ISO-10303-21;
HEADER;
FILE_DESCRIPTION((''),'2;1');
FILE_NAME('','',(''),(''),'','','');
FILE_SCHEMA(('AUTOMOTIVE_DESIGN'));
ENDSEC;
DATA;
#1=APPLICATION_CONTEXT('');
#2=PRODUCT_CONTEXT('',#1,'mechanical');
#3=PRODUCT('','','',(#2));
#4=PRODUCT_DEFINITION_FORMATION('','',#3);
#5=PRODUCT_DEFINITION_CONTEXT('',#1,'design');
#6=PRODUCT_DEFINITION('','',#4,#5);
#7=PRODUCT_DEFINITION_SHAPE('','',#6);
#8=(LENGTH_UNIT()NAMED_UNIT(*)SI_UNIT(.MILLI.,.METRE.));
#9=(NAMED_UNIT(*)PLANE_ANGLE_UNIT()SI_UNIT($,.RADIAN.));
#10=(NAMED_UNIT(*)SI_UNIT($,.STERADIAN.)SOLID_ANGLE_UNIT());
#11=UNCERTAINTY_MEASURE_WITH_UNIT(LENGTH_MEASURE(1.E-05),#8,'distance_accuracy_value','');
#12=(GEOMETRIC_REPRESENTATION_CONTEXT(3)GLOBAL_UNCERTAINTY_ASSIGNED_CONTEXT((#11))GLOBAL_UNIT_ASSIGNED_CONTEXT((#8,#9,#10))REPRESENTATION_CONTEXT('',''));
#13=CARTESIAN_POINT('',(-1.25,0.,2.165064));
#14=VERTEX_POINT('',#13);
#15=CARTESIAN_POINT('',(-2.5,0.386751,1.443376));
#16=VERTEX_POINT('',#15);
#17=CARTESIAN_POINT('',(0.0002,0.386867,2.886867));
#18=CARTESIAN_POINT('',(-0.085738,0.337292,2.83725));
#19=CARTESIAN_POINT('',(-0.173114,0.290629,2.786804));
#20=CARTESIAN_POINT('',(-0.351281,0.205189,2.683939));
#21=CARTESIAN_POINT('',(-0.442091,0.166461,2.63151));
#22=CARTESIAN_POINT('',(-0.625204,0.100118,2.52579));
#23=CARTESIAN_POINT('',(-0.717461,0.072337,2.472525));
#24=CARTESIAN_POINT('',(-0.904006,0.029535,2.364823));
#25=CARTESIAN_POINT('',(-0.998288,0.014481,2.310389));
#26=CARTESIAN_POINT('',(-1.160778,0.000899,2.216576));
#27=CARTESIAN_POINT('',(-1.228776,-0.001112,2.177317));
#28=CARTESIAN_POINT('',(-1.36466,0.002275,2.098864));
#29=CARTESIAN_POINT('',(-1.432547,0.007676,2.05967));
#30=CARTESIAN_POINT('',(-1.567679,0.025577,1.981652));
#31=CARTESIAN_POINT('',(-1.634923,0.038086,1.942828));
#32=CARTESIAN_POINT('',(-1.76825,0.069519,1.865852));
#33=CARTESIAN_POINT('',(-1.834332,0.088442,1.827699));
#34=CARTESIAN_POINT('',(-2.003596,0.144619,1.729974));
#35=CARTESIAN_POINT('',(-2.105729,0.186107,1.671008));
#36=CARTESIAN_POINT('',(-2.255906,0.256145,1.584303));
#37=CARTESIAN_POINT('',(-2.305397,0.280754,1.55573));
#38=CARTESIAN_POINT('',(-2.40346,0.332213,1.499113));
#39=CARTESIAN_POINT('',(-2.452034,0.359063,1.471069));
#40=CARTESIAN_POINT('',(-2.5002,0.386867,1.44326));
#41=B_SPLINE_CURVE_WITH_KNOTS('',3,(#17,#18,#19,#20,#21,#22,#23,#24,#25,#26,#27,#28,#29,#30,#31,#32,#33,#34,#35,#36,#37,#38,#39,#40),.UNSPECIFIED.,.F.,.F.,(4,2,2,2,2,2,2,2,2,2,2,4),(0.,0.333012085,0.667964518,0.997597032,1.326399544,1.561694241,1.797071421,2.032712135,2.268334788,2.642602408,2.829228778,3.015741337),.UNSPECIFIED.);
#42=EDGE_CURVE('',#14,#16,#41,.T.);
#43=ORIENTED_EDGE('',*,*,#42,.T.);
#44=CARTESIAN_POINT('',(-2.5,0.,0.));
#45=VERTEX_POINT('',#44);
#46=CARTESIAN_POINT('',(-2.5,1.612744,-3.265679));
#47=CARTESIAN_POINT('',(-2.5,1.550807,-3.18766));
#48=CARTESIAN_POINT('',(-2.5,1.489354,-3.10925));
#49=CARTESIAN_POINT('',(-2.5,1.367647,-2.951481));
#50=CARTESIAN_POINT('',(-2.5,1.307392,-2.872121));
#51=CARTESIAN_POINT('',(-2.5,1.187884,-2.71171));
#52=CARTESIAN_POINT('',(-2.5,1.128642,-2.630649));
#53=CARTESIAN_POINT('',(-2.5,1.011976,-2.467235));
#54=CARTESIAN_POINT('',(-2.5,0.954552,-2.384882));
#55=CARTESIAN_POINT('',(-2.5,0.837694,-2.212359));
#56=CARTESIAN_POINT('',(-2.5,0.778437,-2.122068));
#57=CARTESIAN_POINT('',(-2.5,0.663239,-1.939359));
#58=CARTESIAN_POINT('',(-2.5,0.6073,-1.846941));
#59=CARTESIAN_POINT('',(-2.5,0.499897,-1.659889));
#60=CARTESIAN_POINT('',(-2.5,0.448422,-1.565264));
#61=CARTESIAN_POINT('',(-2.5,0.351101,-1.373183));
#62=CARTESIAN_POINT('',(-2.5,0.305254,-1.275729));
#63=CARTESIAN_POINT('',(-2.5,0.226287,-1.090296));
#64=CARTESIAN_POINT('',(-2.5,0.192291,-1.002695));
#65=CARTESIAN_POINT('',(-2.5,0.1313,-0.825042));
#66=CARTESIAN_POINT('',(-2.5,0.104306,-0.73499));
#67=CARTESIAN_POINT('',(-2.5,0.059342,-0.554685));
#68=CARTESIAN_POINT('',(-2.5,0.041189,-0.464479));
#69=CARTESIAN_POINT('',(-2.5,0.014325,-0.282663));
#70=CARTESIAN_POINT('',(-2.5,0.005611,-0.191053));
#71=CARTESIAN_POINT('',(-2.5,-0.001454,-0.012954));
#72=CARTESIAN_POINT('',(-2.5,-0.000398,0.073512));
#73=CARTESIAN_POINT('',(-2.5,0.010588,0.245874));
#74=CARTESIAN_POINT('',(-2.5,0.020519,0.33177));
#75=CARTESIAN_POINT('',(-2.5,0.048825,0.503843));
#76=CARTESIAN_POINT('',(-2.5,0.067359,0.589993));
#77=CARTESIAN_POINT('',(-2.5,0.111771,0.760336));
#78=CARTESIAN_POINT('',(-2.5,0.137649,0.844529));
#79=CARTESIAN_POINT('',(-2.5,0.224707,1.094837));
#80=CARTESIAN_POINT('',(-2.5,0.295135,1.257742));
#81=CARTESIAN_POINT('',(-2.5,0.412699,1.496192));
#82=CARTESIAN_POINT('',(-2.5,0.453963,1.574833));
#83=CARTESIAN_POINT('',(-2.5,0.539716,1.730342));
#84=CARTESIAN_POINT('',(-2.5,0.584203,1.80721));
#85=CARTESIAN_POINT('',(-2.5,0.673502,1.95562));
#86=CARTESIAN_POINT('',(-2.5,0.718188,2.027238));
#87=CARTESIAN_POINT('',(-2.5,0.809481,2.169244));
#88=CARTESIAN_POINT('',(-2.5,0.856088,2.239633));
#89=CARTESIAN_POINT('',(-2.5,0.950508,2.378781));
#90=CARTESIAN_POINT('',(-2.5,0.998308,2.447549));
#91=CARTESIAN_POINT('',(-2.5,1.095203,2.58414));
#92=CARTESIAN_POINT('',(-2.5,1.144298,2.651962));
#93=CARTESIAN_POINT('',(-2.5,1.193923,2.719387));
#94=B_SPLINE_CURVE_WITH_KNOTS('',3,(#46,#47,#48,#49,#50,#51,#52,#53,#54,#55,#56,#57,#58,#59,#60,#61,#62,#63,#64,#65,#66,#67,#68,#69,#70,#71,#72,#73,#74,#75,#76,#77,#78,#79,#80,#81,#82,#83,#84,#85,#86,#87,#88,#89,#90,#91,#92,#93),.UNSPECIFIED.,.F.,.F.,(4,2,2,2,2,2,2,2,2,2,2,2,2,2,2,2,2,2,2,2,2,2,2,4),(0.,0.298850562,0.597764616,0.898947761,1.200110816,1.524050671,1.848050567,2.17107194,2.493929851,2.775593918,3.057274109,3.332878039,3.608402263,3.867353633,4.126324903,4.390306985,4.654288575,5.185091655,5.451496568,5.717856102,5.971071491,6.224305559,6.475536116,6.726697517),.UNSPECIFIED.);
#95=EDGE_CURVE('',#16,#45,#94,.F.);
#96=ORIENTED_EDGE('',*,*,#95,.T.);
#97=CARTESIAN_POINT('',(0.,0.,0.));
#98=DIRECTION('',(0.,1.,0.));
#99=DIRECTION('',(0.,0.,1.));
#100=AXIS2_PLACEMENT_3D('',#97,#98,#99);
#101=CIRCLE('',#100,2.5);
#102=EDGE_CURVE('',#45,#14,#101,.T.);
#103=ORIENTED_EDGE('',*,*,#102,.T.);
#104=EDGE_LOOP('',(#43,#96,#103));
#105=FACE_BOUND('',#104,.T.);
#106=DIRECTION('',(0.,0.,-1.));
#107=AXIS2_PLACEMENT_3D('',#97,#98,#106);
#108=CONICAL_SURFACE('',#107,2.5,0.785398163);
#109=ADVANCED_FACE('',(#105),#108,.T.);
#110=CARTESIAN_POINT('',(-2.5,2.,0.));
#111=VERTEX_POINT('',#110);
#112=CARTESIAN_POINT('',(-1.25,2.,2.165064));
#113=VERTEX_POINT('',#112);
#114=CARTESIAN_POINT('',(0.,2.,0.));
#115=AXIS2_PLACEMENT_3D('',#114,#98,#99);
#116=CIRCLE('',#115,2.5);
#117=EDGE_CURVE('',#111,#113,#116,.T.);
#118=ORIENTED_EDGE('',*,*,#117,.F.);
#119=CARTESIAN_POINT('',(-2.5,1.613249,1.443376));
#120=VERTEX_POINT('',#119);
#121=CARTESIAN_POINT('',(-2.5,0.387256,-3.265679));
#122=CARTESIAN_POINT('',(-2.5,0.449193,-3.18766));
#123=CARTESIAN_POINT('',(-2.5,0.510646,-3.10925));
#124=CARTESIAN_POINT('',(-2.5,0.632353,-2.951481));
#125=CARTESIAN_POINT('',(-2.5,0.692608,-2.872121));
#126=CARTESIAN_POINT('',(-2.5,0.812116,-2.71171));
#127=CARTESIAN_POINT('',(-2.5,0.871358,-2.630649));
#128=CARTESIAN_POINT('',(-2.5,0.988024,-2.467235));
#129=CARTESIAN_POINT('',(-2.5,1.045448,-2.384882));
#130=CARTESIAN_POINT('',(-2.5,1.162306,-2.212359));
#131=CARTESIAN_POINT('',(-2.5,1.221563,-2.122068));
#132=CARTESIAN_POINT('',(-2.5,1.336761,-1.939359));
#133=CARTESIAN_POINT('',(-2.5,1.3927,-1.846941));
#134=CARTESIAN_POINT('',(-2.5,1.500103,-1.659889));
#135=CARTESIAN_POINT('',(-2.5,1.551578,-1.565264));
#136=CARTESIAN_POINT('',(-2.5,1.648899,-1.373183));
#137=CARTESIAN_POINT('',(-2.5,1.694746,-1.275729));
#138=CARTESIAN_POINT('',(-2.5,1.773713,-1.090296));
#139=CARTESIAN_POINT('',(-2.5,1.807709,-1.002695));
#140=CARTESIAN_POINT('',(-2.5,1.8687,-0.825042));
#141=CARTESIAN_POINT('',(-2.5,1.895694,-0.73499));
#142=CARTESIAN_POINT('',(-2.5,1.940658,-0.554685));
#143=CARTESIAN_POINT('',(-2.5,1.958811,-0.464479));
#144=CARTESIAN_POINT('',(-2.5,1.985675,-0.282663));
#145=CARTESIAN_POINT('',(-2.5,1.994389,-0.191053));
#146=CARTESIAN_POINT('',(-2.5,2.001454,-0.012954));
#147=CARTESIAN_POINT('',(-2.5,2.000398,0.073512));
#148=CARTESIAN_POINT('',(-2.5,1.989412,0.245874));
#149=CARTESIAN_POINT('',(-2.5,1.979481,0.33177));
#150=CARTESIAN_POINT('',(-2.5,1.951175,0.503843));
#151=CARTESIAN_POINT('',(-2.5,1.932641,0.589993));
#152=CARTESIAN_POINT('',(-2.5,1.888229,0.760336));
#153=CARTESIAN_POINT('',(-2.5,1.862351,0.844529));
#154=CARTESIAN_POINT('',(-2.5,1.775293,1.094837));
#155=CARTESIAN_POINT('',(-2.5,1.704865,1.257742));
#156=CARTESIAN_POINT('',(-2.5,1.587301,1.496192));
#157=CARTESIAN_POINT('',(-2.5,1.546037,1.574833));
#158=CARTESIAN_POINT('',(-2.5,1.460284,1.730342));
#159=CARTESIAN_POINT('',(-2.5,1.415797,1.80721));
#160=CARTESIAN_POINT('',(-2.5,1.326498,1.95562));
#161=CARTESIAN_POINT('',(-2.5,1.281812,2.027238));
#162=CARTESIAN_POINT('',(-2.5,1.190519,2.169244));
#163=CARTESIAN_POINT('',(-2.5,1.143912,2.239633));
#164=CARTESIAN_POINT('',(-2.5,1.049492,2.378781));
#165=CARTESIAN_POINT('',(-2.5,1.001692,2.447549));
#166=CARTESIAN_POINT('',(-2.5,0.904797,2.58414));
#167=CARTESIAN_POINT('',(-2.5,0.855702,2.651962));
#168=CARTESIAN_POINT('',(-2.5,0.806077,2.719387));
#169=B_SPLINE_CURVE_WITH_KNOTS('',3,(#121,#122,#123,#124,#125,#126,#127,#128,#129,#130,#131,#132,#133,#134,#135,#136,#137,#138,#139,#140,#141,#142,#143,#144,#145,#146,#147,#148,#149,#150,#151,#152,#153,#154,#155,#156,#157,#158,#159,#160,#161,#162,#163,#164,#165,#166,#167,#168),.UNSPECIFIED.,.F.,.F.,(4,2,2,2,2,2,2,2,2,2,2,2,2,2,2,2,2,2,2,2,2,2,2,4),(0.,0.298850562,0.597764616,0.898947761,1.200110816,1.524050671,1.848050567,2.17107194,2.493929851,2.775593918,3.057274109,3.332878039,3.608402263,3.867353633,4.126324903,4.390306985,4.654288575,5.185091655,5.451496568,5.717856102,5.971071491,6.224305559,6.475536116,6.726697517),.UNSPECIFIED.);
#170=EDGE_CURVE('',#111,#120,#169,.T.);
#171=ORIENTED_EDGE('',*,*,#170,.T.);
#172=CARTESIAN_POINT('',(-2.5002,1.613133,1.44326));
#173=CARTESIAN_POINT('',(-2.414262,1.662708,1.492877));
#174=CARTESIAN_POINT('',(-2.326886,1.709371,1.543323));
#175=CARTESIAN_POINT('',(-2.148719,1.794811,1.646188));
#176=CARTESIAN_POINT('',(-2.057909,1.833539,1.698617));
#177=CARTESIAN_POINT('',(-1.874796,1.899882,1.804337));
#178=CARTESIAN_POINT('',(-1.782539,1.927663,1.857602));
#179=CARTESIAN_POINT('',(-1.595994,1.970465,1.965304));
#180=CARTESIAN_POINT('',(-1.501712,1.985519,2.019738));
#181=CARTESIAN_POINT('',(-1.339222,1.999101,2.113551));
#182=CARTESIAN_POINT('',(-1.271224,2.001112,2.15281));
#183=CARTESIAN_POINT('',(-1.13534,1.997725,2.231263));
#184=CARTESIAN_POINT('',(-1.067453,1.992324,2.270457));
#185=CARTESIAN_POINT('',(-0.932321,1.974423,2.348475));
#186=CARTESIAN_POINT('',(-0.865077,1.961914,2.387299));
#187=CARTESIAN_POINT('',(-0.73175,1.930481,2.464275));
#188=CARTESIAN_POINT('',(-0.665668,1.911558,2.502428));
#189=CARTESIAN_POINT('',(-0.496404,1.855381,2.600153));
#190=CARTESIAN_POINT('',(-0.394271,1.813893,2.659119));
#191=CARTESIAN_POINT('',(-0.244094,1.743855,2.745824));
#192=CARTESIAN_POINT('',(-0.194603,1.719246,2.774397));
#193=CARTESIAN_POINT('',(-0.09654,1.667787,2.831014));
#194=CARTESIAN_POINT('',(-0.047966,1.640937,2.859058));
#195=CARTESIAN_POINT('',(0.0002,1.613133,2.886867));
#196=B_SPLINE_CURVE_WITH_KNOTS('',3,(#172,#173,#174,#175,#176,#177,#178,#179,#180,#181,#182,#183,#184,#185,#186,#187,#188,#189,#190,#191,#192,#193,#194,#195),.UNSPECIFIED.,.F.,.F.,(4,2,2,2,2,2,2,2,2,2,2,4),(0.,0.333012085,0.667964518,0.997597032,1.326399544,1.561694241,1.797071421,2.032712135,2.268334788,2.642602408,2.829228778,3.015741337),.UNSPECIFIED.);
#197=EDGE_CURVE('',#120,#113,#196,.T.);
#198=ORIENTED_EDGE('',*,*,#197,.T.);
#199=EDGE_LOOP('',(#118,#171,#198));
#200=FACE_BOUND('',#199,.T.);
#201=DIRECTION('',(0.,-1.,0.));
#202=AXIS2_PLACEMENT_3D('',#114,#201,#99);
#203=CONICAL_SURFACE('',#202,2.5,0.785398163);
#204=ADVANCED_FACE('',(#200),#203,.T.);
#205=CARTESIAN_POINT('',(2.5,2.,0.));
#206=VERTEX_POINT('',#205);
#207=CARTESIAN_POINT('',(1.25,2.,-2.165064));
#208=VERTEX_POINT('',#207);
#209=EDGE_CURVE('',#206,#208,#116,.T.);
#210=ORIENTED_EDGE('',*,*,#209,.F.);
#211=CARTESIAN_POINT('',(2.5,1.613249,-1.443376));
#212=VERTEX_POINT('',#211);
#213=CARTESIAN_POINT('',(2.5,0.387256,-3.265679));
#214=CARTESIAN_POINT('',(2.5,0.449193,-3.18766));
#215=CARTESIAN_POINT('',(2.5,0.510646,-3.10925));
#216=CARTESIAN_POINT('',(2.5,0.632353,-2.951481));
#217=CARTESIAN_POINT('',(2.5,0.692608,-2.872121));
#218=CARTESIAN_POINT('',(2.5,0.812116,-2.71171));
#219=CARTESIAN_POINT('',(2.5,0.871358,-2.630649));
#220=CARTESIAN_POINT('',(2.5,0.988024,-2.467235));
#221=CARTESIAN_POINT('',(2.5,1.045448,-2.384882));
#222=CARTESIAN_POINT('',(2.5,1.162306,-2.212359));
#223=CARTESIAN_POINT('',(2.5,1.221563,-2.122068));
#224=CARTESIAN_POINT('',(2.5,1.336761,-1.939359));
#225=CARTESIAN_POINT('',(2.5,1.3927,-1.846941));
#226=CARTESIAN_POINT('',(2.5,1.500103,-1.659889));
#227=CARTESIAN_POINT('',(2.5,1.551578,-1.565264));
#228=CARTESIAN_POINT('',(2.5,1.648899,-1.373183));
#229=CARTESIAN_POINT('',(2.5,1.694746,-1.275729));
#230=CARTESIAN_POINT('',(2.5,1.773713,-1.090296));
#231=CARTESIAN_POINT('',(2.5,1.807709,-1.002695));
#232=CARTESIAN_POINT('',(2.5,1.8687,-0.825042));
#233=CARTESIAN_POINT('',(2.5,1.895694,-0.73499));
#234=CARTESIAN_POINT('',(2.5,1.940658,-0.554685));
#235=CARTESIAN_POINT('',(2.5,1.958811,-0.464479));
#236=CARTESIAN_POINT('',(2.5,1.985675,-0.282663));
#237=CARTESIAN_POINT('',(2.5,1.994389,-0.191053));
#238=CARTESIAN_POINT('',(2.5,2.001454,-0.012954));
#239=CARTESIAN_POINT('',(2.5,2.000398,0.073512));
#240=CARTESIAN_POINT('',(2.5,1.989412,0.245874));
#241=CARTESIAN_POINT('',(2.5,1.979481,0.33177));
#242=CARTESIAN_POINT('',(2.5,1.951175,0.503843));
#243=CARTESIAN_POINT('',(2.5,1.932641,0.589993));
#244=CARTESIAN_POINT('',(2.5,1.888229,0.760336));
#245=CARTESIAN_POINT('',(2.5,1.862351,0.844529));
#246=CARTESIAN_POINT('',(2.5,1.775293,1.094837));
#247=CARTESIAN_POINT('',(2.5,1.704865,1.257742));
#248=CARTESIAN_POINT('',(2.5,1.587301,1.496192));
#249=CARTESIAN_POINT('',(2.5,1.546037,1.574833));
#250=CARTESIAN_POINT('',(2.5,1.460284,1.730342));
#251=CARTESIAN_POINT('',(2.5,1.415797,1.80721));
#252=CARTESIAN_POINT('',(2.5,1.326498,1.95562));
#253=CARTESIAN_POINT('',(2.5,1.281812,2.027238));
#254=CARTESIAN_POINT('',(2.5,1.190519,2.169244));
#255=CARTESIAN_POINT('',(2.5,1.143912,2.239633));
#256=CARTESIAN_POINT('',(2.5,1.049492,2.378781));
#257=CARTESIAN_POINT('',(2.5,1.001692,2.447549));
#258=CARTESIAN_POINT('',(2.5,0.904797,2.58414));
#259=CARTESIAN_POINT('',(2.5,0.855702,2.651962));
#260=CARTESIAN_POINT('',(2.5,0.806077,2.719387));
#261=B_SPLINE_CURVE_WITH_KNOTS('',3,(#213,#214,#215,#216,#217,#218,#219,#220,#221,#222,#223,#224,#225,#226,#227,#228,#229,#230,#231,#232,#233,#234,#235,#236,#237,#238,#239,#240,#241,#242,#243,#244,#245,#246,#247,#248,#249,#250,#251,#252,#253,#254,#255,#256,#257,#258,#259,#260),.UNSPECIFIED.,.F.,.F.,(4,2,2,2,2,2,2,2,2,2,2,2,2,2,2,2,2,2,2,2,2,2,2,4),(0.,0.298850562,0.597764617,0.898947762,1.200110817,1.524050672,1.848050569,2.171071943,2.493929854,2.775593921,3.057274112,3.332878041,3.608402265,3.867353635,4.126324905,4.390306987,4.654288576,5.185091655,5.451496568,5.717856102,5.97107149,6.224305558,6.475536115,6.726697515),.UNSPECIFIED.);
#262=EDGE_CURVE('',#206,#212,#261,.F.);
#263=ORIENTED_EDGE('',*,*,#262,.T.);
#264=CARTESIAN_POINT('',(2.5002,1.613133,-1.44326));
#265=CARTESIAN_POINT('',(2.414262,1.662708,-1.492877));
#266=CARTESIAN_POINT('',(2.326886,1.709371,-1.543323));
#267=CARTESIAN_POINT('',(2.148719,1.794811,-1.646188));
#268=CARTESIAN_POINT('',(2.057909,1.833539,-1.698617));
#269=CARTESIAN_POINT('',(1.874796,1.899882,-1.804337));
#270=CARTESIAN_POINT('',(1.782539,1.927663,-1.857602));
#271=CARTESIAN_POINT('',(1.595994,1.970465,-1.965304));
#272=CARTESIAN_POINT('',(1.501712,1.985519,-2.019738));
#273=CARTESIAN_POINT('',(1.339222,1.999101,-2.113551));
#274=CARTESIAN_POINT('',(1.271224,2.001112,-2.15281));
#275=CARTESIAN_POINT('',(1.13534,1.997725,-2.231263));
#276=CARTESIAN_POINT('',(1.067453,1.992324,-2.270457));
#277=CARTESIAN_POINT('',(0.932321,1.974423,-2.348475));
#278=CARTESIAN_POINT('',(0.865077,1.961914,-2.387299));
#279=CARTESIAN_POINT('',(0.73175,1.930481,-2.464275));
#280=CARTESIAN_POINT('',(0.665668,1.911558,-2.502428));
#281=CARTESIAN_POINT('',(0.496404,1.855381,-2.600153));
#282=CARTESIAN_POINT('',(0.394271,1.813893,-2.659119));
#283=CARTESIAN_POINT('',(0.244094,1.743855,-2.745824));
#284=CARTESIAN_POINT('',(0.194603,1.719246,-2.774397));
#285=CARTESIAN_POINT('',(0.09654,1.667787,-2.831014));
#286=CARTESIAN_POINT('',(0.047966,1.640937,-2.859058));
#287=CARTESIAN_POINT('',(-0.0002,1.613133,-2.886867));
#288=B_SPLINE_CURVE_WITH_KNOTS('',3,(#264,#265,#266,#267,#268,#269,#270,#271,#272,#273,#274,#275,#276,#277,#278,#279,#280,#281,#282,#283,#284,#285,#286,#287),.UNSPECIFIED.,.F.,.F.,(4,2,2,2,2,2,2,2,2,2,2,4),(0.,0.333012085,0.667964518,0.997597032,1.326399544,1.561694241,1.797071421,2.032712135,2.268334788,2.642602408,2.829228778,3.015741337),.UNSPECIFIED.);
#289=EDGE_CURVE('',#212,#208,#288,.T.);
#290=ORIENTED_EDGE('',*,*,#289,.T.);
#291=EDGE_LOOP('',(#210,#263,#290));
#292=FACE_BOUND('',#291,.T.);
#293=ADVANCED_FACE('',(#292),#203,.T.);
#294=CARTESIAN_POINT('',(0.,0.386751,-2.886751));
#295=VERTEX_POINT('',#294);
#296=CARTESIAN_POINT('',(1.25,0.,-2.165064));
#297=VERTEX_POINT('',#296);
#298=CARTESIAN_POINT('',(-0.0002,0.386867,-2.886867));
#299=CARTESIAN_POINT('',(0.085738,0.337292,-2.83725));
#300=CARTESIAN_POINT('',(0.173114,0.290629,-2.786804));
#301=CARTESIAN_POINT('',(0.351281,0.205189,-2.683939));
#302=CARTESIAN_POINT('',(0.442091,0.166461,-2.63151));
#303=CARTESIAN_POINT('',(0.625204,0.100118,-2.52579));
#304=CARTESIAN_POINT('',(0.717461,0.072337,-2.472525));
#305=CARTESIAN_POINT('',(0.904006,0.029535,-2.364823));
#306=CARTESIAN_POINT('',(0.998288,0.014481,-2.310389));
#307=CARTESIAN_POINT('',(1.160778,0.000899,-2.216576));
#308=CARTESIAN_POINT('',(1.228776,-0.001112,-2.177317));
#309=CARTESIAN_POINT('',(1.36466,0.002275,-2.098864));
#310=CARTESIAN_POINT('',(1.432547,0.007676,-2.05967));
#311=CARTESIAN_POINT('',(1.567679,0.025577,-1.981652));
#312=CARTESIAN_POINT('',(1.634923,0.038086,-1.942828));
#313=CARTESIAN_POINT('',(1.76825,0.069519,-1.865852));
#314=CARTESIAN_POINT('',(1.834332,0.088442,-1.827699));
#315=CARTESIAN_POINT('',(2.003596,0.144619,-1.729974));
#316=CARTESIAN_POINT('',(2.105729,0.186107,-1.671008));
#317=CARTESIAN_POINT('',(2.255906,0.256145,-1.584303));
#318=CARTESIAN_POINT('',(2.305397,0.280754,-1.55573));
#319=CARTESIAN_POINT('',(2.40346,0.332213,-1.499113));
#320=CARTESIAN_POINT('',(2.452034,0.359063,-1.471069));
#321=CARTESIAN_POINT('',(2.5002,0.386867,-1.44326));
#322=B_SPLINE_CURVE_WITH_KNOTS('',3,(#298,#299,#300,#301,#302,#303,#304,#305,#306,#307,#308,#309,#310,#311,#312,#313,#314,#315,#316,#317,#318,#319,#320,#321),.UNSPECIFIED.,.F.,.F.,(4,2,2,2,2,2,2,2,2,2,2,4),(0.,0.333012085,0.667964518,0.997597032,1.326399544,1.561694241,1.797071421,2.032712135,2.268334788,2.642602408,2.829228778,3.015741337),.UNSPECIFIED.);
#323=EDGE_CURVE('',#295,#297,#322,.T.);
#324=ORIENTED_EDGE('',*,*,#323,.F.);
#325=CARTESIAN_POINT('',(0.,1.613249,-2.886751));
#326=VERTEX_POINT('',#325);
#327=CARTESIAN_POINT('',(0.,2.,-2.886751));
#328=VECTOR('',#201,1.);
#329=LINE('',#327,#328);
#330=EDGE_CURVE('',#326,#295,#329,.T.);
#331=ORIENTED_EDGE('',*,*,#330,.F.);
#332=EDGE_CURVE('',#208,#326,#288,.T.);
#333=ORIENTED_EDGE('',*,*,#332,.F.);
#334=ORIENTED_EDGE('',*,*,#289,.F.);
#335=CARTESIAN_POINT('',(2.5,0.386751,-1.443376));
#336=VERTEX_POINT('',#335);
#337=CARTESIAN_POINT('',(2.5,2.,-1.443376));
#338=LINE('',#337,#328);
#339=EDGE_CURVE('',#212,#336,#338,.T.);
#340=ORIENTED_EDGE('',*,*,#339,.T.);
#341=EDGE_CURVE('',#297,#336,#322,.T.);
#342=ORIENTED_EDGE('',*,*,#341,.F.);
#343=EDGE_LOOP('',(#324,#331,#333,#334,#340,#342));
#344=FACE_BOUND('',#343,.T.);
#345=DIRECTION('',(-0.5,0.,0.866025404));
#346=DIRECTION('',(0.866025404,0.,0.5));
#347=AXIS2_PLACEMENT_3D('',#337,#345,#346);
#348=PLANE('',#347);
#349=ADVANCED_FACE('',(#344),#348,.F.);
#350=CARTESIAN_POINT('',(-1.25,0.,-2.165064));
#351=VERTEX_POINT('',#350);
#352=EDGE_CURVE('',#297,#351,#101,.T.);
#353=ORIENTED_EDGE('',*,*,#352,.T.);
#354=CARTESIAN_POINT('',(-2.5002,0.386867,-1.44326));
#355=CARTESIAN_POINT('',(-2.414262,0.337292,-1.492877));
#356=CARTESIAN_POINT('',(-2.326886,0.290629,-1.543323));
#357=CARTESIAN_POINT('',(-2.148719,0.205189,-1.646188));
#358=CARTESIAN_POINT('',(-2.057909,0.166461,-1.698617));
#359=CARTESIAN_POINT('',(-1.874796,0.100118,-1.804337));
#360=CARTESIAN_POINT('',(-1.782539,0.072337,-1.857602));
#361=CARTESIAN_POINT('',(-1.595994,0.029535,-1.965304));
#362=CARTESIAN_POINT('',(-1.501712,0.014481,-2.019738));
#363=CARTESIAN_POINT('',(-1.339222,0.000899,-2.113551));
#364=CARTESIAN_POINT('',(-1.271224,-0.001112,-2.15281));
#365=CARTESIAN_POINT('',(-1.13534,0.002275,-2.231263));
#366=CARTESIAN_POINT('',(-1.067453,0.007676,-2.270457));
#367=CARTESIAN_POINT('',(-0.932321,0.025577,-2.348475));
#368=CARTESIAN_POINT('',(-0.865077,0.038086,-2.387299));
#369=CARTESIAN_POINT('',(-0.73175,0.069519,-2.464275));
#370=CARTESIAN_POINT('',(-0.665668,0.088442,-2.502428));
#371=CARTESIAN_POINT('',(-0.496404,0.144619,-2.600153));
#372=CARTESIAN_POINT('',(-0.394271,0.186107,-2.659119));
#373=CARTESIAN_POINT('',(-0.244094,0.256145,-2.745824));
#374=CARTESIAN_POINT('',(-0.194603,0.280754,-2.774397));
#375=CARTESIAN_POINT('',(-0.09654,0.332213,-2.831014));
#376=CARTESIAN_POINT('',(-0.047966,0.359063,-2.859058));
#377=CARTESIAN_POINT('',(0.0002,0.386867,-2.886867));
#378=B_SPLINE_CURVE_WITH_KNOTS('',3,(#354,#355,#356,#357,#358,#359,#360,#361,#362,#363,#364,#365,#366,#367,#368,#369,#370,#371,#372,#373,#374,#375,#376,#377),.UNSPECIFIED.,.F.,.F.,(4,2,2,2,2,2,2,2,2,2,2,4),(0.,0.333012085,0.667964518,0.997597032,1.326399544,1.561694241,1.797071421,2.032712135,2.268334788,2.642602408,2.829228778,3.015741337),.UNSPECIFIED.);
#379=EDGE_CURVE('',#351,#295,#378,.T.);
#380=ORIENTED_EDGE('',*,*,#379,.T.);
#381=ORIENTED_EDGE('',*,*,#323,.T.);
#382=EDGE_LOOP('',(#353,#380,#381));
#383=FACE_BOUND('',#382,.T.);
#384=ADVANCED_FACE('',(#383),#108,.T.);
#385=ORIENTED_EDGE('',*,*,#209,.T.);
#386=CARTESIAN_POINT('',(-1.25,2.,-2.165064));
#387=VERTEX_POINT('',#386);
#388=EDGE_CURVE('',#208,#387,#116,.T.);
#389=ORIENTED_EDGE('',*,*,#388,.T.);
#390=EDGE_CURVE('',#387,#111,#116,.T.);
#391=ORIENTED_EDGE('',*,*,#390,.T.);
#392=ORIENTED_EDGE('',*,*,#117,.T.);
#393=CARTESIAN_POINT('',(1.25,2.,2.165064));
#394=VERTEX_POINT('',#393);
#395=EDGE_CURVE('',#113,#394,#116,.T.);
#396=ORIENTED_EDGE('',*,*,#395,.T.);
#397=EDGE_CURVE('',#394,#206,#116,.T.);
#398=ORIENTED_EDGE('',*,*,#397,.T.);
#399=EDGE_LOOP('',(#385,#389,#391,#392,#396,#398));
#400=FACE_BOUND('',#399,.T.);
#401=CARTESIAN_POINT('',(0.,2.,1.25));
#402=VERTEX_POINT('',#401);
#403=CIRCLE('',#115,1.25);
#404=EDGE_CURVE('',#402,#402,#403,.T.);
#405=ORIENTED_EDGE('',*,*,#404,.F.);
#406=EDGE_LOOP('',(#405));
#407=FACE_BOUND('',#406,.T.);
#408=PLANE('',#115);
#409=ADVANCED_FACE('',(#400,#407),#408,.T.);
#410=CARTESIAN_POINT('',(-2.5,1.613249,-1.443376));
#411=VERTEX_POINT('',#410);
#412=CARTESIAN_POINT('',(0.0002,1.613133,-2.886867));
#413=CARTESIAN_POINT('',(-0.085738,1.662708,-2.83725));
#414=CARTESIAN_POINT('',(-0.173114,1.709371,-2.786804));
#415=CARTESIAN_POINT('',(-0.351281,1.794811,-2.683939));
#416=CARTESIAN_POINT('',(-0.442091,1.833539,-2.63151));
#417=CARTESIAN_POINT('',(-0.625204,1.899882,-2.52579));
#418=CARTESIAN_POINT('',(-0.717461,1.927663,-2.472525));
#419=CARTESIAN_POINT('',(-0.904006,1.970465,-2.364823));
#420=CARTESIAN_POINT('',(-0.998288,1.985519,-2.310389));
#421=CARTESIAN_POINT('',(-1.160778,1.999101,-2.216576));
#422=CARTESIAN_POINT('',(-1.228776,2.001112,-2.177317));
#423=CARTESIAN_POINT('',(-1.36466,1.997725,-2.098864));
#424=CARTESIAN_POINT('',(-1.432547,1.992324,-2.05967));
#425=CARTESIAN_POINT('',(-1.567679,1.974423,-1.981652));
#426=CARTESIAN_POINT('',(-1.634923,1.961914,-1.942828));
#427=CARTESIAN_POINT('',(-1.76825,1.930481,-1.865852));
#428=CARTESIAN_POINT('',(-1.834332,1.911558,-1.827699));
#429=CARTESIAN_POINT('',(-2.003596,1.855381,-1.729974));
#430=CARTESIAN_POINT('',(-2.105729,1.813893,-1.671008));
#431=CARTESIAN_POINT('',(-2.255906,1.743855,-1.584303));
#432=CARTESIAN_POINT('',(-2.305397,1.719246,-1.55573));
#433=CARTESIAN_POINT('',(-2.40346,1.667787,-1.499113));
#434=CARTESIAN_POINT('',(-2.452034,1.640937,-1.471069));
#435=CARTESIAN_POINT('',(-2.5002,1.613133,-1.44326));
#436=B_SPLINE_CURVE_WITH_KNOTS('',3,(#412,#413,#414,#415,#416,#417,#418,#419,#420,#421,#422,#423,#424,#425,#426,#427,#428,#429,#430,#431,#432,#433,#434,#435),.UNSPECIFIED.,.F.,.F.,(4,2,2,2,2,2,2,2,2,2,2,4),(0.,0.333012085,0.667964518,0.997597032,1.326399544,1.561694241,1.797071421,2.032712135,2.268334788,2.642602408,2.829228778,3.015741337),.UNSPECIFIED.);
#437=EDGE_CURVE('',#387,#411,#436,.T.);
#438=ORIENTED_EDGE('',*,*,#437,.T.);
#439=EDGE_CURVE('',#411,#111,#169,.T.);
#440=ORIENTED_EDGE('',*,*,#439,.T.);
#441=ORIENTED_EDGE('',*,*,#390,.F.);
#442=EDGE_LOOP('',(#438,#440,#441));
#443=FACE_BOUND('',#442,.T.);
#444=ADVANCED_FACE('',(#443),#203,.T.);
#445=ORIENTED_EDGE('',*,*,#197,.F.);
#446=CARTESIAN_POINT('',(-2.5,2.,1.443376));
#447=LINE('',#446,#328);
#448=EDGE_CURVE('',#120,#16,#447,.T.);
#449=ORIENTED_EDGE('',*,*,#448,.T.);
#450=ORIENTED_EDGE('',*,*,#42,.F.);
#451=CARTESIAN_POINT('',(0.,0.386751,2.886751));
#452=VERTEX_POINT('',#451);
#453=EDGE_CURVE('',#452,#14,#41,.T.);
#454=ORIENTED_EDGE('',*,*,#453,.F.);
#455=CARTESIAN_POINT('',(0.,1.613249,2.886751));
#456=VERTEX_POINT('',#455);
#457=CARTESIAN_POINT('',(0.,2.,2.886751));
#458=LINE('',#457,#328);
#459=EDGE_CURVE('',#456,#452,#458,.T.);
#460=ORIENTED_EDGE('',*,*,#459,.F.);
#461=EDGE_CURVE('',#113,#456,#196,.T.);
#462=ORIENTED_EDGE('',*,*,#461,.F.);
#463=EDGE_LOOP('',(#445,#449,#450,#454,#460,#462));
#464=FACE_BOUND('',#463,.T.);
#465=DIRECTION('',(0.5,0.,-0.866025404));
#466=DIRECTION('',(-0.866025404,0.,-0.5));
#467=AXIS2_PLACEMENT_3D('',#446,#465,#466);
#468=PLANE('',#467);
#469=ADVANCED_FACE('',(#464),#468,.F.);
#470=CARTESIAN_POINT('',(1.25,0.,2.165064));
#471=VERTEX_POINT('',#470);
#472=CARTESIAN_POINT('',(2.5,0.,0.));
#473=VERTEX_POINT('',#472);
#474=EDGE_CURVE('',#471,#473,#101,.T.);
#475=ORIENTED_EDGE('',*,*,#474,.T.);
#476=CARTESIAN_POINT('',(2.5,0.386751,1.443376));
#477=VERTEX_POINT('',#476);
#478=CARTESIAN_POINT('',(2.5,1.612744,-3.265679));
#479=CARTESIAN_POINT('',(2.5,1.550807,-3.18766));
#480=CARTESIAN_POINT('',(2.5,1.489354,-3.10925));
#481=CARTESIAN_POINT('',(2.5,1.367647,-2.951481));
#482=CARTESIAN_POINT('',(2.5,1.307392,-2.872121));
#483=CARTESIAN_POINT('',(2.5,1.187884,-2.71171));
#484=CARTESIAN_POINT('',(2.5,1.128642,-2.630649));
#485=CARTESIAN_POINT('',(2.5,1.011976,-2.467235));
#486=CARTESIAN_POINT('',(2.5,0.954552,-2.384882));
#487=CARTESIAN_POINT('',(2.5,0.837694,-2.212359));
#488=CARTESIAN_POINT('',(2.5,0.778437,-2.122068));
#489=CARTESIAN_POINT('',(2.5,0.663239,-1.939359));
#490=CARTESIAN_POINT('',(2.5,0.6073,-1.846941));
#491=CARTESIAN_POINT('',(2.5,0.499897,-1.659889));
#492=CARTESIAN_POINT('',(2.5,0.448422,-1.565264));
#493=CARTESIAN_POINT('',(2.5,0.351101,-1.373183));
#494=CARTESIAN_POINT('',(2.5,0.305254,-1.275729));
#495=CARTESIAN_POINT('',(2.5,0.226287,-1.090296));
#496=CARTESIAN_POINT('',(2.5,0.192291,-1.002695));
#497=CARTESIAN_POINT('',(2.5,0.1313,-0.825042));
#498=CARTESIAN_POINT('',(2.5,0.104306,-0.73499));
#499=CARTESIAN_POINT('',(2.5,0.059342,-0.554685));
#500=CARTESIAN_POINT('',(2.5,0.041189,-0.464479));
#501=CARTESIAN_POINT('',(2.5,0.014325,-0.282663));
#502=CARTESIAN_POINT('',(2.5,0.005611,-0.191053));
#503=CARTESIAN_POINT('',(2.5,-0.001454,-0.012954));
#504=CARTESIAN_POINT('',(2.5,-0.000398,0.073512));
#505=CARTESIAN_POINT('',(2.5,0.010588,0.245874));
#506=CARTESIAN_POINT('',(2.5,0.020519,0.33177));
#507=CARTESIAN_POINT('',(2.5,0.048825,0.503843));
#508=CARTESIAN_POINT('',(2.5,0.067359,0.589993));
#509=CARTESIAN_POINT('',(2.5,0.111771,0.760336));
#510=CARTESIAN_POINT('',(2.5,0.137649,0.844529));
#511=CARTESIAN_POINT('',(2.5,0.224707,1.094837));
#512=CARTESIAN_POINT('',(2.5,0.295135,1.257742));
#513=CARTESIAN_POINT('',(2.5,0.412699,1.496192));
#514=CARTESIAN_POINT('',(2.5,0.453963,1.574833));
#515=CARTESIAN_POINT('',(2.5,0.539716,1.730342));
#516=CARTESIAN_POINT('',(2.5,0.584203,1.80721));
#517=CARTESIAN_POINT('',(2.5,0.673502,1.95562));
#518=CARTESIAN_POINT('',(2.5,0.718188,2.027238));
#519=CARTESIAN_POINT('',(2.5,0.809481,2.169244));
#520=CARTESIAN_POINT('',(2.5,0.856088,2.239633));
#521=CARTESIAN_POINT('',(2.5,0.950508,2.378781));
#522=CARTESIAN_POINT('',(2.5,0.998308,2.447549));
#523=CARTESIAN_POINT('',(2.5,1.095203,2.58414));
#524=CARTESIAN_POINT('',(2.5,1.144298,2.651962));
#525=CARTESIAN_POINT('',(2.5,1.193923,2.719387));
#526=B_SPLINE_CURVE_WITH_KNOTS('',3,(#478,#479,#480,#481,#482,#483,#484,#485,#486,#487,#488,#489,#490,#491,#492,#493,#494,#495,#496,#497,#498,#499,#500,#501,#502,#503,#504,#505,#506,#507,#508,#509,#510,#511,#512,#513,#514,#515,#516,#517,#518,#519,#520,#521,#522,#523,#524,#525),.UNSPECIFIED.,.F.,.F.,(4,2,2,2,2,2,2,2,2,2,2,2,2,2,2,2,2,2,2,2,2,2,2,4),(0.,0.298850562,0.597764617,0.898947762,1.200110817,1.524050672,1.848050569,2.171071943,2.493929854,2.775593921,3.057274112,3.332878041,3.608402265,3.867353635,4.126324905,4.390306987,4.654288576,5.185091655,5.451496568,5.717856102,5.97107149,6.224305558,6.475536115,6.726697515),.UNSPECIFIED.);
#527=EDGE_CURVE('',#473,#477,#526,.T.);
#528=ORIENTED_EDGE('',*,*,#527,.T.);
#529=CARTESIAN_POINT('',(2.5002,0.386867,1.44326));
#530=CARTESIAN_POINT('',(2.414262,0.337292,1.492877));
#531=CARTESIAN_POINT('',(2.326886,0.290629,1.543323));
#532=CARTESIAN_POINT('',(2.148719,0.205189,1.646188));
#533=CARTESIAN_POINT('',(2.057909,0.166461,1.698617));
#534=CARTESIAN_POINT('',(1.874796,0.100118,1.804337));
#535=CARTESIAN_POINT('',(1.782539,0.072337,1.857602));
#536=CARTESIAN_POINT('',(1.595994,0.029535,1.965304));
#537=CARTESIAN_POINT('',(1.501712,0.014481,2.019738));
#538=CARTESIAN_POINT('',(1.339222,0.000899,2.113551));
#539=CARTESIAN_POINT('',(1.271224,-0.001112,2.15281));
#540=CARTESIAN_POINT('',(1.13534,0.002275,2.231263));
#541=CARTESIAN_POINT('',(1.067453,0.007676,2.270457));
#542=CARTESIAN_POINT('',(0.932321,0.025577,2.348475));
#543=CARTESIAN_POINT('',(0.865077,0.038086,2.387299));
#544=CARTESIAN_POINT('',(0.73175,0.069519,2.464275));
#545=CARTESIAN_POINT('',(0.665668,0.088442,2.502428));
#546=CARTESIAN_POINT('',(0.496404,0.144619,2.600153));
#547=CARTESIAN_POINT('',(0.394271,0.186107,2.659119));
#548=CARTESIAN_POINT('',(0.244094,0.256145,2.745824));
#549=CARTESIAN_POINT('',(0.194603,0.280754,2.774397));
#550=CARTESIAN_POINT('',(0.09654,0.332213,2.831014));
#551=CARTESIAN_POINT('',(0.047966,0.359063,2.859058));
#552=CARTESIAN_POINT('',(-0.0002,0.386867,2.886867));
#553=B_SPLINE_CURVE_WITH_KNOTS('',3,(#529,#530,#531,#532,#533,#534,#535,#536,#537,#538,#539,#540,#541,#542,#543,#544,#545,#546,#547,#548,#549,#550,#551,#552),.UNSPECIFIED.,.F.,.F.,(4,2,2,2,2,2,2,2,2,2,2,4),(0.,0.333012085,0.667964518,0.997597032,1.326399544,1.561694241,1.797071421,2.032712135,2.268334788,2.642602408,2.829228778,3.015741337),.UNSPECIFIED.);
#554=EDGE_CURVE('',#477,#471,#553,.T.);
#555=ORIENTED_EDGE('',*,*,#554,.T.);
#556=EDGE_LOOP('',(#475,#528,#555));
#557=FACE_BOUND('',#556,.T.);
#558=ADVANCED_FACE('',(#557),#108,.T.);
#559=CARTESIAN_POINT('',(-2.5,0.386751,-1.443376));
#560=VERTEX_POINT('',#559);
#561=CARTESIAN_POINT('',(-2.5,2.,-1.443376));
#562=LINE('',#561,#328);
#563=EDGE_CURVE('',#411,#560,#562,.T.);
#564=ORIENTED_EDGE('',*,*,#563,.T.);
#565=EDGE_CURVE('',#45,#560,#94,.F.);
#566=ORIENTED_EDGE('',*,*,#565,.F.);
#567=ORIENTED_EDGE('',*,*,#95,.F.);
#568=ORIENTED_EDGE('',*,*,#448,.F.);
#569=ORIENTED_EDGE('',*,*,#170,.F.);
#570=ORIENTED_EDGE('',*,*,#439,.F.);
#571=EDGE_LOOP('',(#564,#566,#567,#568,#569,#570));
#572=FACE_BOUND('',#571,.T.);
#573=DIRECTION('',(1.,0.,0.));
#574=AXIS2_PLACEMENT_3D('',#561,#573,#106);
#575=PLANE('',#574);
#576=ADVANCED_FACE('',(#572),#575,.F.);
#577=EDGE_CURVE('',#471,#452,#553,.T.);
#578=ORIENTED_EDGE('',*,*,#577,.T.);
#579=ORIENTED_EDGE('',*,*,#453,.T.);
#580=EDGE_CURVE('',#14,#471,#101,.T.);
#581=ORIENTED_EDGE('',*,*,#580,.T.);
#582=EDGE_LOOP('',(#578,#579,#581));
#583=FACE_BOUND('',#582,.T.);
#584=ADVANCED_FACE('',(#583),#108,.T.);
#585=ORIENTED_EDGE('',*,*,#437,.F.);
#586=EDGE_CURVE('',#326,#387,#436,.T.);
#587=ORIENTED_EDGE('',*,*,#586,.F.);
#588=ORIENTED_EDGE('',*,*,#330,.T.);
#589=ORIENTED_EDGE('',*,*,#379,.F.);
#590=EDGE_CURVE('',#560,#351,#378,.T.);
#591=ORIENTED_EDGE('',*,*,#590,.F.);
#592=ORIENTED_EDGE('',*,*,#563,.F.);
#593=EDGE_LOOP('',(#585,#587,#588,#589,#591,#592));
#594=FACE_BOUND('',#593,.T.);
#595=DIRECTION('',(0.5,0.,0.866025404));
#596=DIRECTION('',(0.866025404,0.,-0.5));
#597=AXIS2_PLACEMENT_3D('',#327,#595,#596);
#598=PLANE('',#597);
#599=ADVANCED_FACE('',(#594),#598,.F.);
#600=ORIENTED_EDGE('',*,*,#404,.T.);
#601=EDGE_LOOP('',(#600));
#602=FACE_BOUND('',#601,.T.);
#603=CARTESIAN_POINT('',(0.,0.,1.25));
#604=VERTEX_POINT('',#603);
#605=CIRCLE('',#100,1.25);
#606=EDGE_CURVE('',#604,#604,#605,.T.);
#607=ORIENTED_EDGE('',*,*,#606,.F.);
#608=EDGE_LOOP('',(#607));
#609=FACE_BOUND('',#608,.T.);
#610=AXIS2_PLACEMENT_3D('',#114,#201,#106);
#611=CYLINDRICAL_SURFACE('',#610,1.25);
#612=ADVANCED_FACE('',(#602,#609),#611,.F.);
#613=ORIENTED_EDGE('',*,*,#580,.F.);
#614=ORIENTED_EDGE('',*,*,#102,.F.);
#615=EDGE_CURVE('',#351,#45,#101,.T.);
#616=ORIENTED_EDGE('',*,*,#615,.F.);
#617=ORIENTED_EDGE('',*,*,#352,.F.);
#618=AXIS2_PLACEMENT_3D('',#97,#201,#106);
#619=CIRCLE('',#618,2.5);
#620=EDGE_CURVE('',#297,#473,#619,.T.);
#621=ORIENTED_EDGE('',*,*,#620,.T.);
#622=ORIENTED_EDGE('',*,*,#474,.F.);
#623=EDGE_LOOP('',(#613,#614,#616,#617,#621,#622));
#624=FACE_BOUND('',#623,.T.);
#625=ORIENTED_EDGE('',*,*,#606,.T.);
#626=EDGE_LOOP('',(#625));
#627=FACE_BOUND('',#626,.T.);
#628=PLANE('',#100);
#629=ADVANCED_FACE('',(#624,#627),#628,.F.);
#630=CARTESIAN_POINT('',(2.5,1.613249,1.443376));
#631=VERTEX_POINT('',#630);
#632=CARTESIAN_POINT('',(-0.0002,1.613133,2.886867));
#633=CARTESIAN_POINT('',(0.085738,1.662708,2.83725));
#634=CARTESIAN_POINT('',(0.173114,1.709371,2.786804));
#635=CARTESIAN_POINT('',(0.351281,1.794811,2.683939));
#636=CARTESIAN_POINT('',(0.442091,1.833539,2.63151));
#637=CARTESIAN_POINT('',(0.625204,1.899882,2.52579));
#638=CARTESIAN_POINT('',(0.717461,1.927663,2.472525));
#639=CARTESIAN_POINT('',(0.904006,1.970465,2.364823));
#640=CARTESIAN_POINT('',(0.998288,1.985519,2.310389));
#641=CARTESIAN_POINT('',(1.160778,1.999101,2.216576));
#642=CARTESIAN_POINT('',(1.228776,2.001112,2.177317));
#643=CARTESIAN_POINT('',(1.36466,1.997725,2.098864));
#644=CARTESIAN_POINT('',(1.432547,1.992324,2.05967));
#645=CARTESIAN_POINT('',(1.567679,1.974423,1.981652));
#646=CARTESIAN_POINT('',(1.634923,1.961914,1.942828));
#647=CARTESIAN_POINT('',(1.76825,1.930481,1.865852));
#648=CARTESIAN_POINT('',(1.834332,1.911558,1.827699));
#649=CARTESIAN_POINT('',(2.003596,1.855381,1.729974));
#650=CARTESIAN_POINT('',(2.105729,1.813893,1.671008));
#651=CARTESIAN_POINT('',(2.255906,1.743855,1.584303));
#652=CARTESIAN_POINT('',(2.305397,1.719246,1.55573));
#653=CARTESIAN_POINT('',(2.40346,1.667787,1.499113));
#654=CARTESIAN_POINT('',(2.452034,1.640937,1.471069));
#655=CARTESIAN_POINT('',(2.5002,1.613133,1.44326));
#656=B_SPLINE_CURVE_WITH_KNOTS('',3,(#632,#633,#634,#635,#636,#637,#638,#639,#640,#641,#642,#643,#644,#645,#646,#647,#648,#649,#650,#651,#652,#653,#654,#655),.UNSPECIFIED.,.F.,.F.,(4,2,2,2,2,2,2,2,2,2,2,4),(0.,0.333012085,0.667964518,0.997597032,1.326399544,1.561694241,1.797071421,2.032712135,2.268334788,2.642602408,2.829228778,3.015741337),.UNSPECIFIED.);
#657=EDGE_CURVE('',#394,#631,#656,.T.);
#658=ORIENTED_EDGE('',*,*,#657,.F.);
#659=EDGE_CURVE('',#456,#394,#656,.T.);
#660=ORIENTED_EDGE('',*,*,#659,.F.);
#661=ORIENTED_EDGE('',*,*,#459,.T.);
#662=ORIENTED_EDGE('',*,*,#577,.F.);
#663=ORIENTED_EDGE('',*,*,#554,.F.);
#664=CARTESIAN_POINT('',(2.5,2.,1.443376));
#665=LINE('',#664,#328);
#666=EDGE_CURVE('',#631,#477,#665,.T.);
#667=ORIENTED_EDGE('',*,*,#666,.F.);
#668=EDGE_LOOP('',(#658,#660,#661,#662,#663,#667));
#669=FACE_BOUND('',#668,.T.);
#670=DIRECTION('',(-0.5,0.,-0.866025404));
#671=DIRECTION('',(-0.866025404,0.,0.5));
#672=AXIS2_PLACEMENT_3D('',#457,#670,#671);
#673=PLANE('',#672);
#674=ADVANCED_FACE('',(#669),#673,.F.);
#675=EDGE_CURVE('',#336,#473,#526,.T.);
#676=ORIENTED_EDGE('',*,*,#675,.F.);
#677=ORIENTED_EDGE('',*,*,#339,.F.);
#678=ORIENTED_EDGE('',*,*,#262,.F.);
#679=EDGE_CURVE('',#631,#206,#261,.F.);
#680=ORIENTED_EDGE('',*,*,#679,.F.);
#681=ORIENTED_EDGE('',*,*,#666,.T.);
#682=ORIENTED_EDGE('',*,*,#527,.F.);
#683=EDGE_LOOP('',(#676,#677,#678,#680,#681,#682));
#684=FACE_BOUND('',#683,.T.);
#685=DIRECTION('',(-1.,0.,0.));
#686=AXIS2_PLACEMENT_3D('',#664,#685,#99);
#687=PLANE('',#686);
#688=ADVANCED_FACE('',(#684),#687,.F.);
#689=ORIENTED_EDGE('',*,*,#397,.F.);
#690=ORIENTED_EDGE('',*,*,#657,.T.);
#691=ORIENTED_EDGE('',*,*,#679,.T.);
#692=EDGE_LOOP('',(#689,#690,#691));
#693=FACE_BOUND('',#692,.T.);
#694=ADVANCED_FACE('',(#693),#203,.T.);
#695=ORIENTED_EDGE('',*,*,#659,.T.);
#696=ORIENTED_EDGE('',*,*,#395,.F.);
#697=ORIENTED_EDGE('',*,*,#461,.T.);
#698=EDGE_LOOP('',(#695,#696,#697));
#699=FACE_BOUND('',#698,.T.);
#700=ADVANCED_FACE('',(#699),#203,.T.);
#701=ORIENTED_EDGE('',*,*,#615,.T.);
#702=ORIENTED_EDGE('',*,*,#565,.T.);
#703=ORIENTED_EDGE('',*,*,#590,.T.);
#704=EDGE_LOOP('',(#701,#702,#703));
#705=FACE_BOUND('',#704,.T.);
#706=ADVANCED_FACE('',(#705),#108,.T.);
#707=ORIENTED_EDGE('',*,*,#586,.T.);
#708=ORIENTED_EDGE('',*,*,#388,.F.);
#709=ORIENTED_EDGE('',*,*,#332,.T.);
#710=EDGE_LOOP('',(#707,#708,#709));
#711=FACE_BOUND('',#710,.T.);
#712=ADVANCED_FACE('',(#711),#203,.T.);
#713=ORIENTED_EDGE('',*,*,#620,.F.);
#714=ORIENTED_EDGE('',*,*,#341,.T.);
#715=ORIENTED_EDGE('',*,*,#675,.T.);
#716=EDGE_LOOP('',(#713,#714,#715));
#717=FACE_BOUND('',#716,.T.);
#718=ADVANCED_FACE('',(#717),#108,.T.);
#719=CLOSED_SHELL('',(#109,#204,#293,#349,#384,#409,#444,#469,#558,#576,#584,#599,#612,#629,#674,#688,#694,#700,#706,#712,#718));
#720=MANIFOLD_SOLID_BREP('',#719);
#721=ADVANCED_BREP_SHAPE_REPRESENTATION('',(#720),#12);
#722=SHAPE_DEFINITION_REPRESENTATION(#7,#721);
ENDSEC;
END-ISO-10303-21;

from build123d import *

# Parameters (mm, degrees)
SKETCH1_R           = 1.25
BOSS_EXTRUDE1_DEPTH = 2
SKETCH2_OUTSIDE_W   = 14.58
SKETCH2_OUTSIDE_H   = 15.354
SKETCH2_OUTSIDE_R   = 2.5
CUT_EXTRUDE1_DEPTH  = 3
CUT_EXTRUDE1_TAPER  = 45
SKETCH3_OUTSIDE_W   = 14.58
SKETCH3_OUTSIDE_H   = 15.354
SKETCH3_OUTSIDE_R   = 2.5
CUT_EXTRUDE2_DEPTH  = 3
CUT_EXTRUDE2_TAPER  = 45


with BuildPart() as part:
    # Sketch1 → Boss-Extrude1 (new body)
    with BuildSketch(Plane(origin=(0, 0, 0), x_dir=(1, 0, 0), z_dir=(0, 1, 0))):
        Polygon((0, 2.886751346), (-2.5, 1.443375673), (-2.5, -1.443375673), (0, -2.886751346), (2.5, -1.443375673), (2.5, 1.443375673), align=None)
        Circle(SKETCH1_R, mode=Mode.SUBTRACT)
    extrude(amount=BOSS_EXTRUDE1_DEPTH)

    # Sketch2 outside → Cut-Extrude1 (cut, through all)
    with BuildSketch(Plane(origin=(0, 2, 0), x_dir=(1, 0, 0), z_dir=(0, 1, 0))):
        Rectangle(SKETCH2_OUTSIDE_W, SKETCH2_OUTSIDE_H)
        Circle(SKETCH2_OUTSIDE_R, mode=Mode.SUBTRACT)
    extrude(amount=-CUT_EXTRUDE1_DEPTH, taper=CUT_EXTRUDE1_TAPER, mode=Mode.SUBTRACT)

    # Sketch3 outside → Cut-Extrude2 (cut, through all)
    with BuildSketch(Plane.XZ):
        Rectangle(SKETCH3_OUTSIDE_W, SKETCH3_OUTSIDE_H)
        Circle(SKETCH3_OUTSIDE_R, mode=Mode.SUBTRACT)
    extrude(amount=-CUT_EXTRUDE2_DEPTH, taper=CUT_EXTRUDE2_TAPER, mode=Mode.SUBTRACT)


solid = part.part
